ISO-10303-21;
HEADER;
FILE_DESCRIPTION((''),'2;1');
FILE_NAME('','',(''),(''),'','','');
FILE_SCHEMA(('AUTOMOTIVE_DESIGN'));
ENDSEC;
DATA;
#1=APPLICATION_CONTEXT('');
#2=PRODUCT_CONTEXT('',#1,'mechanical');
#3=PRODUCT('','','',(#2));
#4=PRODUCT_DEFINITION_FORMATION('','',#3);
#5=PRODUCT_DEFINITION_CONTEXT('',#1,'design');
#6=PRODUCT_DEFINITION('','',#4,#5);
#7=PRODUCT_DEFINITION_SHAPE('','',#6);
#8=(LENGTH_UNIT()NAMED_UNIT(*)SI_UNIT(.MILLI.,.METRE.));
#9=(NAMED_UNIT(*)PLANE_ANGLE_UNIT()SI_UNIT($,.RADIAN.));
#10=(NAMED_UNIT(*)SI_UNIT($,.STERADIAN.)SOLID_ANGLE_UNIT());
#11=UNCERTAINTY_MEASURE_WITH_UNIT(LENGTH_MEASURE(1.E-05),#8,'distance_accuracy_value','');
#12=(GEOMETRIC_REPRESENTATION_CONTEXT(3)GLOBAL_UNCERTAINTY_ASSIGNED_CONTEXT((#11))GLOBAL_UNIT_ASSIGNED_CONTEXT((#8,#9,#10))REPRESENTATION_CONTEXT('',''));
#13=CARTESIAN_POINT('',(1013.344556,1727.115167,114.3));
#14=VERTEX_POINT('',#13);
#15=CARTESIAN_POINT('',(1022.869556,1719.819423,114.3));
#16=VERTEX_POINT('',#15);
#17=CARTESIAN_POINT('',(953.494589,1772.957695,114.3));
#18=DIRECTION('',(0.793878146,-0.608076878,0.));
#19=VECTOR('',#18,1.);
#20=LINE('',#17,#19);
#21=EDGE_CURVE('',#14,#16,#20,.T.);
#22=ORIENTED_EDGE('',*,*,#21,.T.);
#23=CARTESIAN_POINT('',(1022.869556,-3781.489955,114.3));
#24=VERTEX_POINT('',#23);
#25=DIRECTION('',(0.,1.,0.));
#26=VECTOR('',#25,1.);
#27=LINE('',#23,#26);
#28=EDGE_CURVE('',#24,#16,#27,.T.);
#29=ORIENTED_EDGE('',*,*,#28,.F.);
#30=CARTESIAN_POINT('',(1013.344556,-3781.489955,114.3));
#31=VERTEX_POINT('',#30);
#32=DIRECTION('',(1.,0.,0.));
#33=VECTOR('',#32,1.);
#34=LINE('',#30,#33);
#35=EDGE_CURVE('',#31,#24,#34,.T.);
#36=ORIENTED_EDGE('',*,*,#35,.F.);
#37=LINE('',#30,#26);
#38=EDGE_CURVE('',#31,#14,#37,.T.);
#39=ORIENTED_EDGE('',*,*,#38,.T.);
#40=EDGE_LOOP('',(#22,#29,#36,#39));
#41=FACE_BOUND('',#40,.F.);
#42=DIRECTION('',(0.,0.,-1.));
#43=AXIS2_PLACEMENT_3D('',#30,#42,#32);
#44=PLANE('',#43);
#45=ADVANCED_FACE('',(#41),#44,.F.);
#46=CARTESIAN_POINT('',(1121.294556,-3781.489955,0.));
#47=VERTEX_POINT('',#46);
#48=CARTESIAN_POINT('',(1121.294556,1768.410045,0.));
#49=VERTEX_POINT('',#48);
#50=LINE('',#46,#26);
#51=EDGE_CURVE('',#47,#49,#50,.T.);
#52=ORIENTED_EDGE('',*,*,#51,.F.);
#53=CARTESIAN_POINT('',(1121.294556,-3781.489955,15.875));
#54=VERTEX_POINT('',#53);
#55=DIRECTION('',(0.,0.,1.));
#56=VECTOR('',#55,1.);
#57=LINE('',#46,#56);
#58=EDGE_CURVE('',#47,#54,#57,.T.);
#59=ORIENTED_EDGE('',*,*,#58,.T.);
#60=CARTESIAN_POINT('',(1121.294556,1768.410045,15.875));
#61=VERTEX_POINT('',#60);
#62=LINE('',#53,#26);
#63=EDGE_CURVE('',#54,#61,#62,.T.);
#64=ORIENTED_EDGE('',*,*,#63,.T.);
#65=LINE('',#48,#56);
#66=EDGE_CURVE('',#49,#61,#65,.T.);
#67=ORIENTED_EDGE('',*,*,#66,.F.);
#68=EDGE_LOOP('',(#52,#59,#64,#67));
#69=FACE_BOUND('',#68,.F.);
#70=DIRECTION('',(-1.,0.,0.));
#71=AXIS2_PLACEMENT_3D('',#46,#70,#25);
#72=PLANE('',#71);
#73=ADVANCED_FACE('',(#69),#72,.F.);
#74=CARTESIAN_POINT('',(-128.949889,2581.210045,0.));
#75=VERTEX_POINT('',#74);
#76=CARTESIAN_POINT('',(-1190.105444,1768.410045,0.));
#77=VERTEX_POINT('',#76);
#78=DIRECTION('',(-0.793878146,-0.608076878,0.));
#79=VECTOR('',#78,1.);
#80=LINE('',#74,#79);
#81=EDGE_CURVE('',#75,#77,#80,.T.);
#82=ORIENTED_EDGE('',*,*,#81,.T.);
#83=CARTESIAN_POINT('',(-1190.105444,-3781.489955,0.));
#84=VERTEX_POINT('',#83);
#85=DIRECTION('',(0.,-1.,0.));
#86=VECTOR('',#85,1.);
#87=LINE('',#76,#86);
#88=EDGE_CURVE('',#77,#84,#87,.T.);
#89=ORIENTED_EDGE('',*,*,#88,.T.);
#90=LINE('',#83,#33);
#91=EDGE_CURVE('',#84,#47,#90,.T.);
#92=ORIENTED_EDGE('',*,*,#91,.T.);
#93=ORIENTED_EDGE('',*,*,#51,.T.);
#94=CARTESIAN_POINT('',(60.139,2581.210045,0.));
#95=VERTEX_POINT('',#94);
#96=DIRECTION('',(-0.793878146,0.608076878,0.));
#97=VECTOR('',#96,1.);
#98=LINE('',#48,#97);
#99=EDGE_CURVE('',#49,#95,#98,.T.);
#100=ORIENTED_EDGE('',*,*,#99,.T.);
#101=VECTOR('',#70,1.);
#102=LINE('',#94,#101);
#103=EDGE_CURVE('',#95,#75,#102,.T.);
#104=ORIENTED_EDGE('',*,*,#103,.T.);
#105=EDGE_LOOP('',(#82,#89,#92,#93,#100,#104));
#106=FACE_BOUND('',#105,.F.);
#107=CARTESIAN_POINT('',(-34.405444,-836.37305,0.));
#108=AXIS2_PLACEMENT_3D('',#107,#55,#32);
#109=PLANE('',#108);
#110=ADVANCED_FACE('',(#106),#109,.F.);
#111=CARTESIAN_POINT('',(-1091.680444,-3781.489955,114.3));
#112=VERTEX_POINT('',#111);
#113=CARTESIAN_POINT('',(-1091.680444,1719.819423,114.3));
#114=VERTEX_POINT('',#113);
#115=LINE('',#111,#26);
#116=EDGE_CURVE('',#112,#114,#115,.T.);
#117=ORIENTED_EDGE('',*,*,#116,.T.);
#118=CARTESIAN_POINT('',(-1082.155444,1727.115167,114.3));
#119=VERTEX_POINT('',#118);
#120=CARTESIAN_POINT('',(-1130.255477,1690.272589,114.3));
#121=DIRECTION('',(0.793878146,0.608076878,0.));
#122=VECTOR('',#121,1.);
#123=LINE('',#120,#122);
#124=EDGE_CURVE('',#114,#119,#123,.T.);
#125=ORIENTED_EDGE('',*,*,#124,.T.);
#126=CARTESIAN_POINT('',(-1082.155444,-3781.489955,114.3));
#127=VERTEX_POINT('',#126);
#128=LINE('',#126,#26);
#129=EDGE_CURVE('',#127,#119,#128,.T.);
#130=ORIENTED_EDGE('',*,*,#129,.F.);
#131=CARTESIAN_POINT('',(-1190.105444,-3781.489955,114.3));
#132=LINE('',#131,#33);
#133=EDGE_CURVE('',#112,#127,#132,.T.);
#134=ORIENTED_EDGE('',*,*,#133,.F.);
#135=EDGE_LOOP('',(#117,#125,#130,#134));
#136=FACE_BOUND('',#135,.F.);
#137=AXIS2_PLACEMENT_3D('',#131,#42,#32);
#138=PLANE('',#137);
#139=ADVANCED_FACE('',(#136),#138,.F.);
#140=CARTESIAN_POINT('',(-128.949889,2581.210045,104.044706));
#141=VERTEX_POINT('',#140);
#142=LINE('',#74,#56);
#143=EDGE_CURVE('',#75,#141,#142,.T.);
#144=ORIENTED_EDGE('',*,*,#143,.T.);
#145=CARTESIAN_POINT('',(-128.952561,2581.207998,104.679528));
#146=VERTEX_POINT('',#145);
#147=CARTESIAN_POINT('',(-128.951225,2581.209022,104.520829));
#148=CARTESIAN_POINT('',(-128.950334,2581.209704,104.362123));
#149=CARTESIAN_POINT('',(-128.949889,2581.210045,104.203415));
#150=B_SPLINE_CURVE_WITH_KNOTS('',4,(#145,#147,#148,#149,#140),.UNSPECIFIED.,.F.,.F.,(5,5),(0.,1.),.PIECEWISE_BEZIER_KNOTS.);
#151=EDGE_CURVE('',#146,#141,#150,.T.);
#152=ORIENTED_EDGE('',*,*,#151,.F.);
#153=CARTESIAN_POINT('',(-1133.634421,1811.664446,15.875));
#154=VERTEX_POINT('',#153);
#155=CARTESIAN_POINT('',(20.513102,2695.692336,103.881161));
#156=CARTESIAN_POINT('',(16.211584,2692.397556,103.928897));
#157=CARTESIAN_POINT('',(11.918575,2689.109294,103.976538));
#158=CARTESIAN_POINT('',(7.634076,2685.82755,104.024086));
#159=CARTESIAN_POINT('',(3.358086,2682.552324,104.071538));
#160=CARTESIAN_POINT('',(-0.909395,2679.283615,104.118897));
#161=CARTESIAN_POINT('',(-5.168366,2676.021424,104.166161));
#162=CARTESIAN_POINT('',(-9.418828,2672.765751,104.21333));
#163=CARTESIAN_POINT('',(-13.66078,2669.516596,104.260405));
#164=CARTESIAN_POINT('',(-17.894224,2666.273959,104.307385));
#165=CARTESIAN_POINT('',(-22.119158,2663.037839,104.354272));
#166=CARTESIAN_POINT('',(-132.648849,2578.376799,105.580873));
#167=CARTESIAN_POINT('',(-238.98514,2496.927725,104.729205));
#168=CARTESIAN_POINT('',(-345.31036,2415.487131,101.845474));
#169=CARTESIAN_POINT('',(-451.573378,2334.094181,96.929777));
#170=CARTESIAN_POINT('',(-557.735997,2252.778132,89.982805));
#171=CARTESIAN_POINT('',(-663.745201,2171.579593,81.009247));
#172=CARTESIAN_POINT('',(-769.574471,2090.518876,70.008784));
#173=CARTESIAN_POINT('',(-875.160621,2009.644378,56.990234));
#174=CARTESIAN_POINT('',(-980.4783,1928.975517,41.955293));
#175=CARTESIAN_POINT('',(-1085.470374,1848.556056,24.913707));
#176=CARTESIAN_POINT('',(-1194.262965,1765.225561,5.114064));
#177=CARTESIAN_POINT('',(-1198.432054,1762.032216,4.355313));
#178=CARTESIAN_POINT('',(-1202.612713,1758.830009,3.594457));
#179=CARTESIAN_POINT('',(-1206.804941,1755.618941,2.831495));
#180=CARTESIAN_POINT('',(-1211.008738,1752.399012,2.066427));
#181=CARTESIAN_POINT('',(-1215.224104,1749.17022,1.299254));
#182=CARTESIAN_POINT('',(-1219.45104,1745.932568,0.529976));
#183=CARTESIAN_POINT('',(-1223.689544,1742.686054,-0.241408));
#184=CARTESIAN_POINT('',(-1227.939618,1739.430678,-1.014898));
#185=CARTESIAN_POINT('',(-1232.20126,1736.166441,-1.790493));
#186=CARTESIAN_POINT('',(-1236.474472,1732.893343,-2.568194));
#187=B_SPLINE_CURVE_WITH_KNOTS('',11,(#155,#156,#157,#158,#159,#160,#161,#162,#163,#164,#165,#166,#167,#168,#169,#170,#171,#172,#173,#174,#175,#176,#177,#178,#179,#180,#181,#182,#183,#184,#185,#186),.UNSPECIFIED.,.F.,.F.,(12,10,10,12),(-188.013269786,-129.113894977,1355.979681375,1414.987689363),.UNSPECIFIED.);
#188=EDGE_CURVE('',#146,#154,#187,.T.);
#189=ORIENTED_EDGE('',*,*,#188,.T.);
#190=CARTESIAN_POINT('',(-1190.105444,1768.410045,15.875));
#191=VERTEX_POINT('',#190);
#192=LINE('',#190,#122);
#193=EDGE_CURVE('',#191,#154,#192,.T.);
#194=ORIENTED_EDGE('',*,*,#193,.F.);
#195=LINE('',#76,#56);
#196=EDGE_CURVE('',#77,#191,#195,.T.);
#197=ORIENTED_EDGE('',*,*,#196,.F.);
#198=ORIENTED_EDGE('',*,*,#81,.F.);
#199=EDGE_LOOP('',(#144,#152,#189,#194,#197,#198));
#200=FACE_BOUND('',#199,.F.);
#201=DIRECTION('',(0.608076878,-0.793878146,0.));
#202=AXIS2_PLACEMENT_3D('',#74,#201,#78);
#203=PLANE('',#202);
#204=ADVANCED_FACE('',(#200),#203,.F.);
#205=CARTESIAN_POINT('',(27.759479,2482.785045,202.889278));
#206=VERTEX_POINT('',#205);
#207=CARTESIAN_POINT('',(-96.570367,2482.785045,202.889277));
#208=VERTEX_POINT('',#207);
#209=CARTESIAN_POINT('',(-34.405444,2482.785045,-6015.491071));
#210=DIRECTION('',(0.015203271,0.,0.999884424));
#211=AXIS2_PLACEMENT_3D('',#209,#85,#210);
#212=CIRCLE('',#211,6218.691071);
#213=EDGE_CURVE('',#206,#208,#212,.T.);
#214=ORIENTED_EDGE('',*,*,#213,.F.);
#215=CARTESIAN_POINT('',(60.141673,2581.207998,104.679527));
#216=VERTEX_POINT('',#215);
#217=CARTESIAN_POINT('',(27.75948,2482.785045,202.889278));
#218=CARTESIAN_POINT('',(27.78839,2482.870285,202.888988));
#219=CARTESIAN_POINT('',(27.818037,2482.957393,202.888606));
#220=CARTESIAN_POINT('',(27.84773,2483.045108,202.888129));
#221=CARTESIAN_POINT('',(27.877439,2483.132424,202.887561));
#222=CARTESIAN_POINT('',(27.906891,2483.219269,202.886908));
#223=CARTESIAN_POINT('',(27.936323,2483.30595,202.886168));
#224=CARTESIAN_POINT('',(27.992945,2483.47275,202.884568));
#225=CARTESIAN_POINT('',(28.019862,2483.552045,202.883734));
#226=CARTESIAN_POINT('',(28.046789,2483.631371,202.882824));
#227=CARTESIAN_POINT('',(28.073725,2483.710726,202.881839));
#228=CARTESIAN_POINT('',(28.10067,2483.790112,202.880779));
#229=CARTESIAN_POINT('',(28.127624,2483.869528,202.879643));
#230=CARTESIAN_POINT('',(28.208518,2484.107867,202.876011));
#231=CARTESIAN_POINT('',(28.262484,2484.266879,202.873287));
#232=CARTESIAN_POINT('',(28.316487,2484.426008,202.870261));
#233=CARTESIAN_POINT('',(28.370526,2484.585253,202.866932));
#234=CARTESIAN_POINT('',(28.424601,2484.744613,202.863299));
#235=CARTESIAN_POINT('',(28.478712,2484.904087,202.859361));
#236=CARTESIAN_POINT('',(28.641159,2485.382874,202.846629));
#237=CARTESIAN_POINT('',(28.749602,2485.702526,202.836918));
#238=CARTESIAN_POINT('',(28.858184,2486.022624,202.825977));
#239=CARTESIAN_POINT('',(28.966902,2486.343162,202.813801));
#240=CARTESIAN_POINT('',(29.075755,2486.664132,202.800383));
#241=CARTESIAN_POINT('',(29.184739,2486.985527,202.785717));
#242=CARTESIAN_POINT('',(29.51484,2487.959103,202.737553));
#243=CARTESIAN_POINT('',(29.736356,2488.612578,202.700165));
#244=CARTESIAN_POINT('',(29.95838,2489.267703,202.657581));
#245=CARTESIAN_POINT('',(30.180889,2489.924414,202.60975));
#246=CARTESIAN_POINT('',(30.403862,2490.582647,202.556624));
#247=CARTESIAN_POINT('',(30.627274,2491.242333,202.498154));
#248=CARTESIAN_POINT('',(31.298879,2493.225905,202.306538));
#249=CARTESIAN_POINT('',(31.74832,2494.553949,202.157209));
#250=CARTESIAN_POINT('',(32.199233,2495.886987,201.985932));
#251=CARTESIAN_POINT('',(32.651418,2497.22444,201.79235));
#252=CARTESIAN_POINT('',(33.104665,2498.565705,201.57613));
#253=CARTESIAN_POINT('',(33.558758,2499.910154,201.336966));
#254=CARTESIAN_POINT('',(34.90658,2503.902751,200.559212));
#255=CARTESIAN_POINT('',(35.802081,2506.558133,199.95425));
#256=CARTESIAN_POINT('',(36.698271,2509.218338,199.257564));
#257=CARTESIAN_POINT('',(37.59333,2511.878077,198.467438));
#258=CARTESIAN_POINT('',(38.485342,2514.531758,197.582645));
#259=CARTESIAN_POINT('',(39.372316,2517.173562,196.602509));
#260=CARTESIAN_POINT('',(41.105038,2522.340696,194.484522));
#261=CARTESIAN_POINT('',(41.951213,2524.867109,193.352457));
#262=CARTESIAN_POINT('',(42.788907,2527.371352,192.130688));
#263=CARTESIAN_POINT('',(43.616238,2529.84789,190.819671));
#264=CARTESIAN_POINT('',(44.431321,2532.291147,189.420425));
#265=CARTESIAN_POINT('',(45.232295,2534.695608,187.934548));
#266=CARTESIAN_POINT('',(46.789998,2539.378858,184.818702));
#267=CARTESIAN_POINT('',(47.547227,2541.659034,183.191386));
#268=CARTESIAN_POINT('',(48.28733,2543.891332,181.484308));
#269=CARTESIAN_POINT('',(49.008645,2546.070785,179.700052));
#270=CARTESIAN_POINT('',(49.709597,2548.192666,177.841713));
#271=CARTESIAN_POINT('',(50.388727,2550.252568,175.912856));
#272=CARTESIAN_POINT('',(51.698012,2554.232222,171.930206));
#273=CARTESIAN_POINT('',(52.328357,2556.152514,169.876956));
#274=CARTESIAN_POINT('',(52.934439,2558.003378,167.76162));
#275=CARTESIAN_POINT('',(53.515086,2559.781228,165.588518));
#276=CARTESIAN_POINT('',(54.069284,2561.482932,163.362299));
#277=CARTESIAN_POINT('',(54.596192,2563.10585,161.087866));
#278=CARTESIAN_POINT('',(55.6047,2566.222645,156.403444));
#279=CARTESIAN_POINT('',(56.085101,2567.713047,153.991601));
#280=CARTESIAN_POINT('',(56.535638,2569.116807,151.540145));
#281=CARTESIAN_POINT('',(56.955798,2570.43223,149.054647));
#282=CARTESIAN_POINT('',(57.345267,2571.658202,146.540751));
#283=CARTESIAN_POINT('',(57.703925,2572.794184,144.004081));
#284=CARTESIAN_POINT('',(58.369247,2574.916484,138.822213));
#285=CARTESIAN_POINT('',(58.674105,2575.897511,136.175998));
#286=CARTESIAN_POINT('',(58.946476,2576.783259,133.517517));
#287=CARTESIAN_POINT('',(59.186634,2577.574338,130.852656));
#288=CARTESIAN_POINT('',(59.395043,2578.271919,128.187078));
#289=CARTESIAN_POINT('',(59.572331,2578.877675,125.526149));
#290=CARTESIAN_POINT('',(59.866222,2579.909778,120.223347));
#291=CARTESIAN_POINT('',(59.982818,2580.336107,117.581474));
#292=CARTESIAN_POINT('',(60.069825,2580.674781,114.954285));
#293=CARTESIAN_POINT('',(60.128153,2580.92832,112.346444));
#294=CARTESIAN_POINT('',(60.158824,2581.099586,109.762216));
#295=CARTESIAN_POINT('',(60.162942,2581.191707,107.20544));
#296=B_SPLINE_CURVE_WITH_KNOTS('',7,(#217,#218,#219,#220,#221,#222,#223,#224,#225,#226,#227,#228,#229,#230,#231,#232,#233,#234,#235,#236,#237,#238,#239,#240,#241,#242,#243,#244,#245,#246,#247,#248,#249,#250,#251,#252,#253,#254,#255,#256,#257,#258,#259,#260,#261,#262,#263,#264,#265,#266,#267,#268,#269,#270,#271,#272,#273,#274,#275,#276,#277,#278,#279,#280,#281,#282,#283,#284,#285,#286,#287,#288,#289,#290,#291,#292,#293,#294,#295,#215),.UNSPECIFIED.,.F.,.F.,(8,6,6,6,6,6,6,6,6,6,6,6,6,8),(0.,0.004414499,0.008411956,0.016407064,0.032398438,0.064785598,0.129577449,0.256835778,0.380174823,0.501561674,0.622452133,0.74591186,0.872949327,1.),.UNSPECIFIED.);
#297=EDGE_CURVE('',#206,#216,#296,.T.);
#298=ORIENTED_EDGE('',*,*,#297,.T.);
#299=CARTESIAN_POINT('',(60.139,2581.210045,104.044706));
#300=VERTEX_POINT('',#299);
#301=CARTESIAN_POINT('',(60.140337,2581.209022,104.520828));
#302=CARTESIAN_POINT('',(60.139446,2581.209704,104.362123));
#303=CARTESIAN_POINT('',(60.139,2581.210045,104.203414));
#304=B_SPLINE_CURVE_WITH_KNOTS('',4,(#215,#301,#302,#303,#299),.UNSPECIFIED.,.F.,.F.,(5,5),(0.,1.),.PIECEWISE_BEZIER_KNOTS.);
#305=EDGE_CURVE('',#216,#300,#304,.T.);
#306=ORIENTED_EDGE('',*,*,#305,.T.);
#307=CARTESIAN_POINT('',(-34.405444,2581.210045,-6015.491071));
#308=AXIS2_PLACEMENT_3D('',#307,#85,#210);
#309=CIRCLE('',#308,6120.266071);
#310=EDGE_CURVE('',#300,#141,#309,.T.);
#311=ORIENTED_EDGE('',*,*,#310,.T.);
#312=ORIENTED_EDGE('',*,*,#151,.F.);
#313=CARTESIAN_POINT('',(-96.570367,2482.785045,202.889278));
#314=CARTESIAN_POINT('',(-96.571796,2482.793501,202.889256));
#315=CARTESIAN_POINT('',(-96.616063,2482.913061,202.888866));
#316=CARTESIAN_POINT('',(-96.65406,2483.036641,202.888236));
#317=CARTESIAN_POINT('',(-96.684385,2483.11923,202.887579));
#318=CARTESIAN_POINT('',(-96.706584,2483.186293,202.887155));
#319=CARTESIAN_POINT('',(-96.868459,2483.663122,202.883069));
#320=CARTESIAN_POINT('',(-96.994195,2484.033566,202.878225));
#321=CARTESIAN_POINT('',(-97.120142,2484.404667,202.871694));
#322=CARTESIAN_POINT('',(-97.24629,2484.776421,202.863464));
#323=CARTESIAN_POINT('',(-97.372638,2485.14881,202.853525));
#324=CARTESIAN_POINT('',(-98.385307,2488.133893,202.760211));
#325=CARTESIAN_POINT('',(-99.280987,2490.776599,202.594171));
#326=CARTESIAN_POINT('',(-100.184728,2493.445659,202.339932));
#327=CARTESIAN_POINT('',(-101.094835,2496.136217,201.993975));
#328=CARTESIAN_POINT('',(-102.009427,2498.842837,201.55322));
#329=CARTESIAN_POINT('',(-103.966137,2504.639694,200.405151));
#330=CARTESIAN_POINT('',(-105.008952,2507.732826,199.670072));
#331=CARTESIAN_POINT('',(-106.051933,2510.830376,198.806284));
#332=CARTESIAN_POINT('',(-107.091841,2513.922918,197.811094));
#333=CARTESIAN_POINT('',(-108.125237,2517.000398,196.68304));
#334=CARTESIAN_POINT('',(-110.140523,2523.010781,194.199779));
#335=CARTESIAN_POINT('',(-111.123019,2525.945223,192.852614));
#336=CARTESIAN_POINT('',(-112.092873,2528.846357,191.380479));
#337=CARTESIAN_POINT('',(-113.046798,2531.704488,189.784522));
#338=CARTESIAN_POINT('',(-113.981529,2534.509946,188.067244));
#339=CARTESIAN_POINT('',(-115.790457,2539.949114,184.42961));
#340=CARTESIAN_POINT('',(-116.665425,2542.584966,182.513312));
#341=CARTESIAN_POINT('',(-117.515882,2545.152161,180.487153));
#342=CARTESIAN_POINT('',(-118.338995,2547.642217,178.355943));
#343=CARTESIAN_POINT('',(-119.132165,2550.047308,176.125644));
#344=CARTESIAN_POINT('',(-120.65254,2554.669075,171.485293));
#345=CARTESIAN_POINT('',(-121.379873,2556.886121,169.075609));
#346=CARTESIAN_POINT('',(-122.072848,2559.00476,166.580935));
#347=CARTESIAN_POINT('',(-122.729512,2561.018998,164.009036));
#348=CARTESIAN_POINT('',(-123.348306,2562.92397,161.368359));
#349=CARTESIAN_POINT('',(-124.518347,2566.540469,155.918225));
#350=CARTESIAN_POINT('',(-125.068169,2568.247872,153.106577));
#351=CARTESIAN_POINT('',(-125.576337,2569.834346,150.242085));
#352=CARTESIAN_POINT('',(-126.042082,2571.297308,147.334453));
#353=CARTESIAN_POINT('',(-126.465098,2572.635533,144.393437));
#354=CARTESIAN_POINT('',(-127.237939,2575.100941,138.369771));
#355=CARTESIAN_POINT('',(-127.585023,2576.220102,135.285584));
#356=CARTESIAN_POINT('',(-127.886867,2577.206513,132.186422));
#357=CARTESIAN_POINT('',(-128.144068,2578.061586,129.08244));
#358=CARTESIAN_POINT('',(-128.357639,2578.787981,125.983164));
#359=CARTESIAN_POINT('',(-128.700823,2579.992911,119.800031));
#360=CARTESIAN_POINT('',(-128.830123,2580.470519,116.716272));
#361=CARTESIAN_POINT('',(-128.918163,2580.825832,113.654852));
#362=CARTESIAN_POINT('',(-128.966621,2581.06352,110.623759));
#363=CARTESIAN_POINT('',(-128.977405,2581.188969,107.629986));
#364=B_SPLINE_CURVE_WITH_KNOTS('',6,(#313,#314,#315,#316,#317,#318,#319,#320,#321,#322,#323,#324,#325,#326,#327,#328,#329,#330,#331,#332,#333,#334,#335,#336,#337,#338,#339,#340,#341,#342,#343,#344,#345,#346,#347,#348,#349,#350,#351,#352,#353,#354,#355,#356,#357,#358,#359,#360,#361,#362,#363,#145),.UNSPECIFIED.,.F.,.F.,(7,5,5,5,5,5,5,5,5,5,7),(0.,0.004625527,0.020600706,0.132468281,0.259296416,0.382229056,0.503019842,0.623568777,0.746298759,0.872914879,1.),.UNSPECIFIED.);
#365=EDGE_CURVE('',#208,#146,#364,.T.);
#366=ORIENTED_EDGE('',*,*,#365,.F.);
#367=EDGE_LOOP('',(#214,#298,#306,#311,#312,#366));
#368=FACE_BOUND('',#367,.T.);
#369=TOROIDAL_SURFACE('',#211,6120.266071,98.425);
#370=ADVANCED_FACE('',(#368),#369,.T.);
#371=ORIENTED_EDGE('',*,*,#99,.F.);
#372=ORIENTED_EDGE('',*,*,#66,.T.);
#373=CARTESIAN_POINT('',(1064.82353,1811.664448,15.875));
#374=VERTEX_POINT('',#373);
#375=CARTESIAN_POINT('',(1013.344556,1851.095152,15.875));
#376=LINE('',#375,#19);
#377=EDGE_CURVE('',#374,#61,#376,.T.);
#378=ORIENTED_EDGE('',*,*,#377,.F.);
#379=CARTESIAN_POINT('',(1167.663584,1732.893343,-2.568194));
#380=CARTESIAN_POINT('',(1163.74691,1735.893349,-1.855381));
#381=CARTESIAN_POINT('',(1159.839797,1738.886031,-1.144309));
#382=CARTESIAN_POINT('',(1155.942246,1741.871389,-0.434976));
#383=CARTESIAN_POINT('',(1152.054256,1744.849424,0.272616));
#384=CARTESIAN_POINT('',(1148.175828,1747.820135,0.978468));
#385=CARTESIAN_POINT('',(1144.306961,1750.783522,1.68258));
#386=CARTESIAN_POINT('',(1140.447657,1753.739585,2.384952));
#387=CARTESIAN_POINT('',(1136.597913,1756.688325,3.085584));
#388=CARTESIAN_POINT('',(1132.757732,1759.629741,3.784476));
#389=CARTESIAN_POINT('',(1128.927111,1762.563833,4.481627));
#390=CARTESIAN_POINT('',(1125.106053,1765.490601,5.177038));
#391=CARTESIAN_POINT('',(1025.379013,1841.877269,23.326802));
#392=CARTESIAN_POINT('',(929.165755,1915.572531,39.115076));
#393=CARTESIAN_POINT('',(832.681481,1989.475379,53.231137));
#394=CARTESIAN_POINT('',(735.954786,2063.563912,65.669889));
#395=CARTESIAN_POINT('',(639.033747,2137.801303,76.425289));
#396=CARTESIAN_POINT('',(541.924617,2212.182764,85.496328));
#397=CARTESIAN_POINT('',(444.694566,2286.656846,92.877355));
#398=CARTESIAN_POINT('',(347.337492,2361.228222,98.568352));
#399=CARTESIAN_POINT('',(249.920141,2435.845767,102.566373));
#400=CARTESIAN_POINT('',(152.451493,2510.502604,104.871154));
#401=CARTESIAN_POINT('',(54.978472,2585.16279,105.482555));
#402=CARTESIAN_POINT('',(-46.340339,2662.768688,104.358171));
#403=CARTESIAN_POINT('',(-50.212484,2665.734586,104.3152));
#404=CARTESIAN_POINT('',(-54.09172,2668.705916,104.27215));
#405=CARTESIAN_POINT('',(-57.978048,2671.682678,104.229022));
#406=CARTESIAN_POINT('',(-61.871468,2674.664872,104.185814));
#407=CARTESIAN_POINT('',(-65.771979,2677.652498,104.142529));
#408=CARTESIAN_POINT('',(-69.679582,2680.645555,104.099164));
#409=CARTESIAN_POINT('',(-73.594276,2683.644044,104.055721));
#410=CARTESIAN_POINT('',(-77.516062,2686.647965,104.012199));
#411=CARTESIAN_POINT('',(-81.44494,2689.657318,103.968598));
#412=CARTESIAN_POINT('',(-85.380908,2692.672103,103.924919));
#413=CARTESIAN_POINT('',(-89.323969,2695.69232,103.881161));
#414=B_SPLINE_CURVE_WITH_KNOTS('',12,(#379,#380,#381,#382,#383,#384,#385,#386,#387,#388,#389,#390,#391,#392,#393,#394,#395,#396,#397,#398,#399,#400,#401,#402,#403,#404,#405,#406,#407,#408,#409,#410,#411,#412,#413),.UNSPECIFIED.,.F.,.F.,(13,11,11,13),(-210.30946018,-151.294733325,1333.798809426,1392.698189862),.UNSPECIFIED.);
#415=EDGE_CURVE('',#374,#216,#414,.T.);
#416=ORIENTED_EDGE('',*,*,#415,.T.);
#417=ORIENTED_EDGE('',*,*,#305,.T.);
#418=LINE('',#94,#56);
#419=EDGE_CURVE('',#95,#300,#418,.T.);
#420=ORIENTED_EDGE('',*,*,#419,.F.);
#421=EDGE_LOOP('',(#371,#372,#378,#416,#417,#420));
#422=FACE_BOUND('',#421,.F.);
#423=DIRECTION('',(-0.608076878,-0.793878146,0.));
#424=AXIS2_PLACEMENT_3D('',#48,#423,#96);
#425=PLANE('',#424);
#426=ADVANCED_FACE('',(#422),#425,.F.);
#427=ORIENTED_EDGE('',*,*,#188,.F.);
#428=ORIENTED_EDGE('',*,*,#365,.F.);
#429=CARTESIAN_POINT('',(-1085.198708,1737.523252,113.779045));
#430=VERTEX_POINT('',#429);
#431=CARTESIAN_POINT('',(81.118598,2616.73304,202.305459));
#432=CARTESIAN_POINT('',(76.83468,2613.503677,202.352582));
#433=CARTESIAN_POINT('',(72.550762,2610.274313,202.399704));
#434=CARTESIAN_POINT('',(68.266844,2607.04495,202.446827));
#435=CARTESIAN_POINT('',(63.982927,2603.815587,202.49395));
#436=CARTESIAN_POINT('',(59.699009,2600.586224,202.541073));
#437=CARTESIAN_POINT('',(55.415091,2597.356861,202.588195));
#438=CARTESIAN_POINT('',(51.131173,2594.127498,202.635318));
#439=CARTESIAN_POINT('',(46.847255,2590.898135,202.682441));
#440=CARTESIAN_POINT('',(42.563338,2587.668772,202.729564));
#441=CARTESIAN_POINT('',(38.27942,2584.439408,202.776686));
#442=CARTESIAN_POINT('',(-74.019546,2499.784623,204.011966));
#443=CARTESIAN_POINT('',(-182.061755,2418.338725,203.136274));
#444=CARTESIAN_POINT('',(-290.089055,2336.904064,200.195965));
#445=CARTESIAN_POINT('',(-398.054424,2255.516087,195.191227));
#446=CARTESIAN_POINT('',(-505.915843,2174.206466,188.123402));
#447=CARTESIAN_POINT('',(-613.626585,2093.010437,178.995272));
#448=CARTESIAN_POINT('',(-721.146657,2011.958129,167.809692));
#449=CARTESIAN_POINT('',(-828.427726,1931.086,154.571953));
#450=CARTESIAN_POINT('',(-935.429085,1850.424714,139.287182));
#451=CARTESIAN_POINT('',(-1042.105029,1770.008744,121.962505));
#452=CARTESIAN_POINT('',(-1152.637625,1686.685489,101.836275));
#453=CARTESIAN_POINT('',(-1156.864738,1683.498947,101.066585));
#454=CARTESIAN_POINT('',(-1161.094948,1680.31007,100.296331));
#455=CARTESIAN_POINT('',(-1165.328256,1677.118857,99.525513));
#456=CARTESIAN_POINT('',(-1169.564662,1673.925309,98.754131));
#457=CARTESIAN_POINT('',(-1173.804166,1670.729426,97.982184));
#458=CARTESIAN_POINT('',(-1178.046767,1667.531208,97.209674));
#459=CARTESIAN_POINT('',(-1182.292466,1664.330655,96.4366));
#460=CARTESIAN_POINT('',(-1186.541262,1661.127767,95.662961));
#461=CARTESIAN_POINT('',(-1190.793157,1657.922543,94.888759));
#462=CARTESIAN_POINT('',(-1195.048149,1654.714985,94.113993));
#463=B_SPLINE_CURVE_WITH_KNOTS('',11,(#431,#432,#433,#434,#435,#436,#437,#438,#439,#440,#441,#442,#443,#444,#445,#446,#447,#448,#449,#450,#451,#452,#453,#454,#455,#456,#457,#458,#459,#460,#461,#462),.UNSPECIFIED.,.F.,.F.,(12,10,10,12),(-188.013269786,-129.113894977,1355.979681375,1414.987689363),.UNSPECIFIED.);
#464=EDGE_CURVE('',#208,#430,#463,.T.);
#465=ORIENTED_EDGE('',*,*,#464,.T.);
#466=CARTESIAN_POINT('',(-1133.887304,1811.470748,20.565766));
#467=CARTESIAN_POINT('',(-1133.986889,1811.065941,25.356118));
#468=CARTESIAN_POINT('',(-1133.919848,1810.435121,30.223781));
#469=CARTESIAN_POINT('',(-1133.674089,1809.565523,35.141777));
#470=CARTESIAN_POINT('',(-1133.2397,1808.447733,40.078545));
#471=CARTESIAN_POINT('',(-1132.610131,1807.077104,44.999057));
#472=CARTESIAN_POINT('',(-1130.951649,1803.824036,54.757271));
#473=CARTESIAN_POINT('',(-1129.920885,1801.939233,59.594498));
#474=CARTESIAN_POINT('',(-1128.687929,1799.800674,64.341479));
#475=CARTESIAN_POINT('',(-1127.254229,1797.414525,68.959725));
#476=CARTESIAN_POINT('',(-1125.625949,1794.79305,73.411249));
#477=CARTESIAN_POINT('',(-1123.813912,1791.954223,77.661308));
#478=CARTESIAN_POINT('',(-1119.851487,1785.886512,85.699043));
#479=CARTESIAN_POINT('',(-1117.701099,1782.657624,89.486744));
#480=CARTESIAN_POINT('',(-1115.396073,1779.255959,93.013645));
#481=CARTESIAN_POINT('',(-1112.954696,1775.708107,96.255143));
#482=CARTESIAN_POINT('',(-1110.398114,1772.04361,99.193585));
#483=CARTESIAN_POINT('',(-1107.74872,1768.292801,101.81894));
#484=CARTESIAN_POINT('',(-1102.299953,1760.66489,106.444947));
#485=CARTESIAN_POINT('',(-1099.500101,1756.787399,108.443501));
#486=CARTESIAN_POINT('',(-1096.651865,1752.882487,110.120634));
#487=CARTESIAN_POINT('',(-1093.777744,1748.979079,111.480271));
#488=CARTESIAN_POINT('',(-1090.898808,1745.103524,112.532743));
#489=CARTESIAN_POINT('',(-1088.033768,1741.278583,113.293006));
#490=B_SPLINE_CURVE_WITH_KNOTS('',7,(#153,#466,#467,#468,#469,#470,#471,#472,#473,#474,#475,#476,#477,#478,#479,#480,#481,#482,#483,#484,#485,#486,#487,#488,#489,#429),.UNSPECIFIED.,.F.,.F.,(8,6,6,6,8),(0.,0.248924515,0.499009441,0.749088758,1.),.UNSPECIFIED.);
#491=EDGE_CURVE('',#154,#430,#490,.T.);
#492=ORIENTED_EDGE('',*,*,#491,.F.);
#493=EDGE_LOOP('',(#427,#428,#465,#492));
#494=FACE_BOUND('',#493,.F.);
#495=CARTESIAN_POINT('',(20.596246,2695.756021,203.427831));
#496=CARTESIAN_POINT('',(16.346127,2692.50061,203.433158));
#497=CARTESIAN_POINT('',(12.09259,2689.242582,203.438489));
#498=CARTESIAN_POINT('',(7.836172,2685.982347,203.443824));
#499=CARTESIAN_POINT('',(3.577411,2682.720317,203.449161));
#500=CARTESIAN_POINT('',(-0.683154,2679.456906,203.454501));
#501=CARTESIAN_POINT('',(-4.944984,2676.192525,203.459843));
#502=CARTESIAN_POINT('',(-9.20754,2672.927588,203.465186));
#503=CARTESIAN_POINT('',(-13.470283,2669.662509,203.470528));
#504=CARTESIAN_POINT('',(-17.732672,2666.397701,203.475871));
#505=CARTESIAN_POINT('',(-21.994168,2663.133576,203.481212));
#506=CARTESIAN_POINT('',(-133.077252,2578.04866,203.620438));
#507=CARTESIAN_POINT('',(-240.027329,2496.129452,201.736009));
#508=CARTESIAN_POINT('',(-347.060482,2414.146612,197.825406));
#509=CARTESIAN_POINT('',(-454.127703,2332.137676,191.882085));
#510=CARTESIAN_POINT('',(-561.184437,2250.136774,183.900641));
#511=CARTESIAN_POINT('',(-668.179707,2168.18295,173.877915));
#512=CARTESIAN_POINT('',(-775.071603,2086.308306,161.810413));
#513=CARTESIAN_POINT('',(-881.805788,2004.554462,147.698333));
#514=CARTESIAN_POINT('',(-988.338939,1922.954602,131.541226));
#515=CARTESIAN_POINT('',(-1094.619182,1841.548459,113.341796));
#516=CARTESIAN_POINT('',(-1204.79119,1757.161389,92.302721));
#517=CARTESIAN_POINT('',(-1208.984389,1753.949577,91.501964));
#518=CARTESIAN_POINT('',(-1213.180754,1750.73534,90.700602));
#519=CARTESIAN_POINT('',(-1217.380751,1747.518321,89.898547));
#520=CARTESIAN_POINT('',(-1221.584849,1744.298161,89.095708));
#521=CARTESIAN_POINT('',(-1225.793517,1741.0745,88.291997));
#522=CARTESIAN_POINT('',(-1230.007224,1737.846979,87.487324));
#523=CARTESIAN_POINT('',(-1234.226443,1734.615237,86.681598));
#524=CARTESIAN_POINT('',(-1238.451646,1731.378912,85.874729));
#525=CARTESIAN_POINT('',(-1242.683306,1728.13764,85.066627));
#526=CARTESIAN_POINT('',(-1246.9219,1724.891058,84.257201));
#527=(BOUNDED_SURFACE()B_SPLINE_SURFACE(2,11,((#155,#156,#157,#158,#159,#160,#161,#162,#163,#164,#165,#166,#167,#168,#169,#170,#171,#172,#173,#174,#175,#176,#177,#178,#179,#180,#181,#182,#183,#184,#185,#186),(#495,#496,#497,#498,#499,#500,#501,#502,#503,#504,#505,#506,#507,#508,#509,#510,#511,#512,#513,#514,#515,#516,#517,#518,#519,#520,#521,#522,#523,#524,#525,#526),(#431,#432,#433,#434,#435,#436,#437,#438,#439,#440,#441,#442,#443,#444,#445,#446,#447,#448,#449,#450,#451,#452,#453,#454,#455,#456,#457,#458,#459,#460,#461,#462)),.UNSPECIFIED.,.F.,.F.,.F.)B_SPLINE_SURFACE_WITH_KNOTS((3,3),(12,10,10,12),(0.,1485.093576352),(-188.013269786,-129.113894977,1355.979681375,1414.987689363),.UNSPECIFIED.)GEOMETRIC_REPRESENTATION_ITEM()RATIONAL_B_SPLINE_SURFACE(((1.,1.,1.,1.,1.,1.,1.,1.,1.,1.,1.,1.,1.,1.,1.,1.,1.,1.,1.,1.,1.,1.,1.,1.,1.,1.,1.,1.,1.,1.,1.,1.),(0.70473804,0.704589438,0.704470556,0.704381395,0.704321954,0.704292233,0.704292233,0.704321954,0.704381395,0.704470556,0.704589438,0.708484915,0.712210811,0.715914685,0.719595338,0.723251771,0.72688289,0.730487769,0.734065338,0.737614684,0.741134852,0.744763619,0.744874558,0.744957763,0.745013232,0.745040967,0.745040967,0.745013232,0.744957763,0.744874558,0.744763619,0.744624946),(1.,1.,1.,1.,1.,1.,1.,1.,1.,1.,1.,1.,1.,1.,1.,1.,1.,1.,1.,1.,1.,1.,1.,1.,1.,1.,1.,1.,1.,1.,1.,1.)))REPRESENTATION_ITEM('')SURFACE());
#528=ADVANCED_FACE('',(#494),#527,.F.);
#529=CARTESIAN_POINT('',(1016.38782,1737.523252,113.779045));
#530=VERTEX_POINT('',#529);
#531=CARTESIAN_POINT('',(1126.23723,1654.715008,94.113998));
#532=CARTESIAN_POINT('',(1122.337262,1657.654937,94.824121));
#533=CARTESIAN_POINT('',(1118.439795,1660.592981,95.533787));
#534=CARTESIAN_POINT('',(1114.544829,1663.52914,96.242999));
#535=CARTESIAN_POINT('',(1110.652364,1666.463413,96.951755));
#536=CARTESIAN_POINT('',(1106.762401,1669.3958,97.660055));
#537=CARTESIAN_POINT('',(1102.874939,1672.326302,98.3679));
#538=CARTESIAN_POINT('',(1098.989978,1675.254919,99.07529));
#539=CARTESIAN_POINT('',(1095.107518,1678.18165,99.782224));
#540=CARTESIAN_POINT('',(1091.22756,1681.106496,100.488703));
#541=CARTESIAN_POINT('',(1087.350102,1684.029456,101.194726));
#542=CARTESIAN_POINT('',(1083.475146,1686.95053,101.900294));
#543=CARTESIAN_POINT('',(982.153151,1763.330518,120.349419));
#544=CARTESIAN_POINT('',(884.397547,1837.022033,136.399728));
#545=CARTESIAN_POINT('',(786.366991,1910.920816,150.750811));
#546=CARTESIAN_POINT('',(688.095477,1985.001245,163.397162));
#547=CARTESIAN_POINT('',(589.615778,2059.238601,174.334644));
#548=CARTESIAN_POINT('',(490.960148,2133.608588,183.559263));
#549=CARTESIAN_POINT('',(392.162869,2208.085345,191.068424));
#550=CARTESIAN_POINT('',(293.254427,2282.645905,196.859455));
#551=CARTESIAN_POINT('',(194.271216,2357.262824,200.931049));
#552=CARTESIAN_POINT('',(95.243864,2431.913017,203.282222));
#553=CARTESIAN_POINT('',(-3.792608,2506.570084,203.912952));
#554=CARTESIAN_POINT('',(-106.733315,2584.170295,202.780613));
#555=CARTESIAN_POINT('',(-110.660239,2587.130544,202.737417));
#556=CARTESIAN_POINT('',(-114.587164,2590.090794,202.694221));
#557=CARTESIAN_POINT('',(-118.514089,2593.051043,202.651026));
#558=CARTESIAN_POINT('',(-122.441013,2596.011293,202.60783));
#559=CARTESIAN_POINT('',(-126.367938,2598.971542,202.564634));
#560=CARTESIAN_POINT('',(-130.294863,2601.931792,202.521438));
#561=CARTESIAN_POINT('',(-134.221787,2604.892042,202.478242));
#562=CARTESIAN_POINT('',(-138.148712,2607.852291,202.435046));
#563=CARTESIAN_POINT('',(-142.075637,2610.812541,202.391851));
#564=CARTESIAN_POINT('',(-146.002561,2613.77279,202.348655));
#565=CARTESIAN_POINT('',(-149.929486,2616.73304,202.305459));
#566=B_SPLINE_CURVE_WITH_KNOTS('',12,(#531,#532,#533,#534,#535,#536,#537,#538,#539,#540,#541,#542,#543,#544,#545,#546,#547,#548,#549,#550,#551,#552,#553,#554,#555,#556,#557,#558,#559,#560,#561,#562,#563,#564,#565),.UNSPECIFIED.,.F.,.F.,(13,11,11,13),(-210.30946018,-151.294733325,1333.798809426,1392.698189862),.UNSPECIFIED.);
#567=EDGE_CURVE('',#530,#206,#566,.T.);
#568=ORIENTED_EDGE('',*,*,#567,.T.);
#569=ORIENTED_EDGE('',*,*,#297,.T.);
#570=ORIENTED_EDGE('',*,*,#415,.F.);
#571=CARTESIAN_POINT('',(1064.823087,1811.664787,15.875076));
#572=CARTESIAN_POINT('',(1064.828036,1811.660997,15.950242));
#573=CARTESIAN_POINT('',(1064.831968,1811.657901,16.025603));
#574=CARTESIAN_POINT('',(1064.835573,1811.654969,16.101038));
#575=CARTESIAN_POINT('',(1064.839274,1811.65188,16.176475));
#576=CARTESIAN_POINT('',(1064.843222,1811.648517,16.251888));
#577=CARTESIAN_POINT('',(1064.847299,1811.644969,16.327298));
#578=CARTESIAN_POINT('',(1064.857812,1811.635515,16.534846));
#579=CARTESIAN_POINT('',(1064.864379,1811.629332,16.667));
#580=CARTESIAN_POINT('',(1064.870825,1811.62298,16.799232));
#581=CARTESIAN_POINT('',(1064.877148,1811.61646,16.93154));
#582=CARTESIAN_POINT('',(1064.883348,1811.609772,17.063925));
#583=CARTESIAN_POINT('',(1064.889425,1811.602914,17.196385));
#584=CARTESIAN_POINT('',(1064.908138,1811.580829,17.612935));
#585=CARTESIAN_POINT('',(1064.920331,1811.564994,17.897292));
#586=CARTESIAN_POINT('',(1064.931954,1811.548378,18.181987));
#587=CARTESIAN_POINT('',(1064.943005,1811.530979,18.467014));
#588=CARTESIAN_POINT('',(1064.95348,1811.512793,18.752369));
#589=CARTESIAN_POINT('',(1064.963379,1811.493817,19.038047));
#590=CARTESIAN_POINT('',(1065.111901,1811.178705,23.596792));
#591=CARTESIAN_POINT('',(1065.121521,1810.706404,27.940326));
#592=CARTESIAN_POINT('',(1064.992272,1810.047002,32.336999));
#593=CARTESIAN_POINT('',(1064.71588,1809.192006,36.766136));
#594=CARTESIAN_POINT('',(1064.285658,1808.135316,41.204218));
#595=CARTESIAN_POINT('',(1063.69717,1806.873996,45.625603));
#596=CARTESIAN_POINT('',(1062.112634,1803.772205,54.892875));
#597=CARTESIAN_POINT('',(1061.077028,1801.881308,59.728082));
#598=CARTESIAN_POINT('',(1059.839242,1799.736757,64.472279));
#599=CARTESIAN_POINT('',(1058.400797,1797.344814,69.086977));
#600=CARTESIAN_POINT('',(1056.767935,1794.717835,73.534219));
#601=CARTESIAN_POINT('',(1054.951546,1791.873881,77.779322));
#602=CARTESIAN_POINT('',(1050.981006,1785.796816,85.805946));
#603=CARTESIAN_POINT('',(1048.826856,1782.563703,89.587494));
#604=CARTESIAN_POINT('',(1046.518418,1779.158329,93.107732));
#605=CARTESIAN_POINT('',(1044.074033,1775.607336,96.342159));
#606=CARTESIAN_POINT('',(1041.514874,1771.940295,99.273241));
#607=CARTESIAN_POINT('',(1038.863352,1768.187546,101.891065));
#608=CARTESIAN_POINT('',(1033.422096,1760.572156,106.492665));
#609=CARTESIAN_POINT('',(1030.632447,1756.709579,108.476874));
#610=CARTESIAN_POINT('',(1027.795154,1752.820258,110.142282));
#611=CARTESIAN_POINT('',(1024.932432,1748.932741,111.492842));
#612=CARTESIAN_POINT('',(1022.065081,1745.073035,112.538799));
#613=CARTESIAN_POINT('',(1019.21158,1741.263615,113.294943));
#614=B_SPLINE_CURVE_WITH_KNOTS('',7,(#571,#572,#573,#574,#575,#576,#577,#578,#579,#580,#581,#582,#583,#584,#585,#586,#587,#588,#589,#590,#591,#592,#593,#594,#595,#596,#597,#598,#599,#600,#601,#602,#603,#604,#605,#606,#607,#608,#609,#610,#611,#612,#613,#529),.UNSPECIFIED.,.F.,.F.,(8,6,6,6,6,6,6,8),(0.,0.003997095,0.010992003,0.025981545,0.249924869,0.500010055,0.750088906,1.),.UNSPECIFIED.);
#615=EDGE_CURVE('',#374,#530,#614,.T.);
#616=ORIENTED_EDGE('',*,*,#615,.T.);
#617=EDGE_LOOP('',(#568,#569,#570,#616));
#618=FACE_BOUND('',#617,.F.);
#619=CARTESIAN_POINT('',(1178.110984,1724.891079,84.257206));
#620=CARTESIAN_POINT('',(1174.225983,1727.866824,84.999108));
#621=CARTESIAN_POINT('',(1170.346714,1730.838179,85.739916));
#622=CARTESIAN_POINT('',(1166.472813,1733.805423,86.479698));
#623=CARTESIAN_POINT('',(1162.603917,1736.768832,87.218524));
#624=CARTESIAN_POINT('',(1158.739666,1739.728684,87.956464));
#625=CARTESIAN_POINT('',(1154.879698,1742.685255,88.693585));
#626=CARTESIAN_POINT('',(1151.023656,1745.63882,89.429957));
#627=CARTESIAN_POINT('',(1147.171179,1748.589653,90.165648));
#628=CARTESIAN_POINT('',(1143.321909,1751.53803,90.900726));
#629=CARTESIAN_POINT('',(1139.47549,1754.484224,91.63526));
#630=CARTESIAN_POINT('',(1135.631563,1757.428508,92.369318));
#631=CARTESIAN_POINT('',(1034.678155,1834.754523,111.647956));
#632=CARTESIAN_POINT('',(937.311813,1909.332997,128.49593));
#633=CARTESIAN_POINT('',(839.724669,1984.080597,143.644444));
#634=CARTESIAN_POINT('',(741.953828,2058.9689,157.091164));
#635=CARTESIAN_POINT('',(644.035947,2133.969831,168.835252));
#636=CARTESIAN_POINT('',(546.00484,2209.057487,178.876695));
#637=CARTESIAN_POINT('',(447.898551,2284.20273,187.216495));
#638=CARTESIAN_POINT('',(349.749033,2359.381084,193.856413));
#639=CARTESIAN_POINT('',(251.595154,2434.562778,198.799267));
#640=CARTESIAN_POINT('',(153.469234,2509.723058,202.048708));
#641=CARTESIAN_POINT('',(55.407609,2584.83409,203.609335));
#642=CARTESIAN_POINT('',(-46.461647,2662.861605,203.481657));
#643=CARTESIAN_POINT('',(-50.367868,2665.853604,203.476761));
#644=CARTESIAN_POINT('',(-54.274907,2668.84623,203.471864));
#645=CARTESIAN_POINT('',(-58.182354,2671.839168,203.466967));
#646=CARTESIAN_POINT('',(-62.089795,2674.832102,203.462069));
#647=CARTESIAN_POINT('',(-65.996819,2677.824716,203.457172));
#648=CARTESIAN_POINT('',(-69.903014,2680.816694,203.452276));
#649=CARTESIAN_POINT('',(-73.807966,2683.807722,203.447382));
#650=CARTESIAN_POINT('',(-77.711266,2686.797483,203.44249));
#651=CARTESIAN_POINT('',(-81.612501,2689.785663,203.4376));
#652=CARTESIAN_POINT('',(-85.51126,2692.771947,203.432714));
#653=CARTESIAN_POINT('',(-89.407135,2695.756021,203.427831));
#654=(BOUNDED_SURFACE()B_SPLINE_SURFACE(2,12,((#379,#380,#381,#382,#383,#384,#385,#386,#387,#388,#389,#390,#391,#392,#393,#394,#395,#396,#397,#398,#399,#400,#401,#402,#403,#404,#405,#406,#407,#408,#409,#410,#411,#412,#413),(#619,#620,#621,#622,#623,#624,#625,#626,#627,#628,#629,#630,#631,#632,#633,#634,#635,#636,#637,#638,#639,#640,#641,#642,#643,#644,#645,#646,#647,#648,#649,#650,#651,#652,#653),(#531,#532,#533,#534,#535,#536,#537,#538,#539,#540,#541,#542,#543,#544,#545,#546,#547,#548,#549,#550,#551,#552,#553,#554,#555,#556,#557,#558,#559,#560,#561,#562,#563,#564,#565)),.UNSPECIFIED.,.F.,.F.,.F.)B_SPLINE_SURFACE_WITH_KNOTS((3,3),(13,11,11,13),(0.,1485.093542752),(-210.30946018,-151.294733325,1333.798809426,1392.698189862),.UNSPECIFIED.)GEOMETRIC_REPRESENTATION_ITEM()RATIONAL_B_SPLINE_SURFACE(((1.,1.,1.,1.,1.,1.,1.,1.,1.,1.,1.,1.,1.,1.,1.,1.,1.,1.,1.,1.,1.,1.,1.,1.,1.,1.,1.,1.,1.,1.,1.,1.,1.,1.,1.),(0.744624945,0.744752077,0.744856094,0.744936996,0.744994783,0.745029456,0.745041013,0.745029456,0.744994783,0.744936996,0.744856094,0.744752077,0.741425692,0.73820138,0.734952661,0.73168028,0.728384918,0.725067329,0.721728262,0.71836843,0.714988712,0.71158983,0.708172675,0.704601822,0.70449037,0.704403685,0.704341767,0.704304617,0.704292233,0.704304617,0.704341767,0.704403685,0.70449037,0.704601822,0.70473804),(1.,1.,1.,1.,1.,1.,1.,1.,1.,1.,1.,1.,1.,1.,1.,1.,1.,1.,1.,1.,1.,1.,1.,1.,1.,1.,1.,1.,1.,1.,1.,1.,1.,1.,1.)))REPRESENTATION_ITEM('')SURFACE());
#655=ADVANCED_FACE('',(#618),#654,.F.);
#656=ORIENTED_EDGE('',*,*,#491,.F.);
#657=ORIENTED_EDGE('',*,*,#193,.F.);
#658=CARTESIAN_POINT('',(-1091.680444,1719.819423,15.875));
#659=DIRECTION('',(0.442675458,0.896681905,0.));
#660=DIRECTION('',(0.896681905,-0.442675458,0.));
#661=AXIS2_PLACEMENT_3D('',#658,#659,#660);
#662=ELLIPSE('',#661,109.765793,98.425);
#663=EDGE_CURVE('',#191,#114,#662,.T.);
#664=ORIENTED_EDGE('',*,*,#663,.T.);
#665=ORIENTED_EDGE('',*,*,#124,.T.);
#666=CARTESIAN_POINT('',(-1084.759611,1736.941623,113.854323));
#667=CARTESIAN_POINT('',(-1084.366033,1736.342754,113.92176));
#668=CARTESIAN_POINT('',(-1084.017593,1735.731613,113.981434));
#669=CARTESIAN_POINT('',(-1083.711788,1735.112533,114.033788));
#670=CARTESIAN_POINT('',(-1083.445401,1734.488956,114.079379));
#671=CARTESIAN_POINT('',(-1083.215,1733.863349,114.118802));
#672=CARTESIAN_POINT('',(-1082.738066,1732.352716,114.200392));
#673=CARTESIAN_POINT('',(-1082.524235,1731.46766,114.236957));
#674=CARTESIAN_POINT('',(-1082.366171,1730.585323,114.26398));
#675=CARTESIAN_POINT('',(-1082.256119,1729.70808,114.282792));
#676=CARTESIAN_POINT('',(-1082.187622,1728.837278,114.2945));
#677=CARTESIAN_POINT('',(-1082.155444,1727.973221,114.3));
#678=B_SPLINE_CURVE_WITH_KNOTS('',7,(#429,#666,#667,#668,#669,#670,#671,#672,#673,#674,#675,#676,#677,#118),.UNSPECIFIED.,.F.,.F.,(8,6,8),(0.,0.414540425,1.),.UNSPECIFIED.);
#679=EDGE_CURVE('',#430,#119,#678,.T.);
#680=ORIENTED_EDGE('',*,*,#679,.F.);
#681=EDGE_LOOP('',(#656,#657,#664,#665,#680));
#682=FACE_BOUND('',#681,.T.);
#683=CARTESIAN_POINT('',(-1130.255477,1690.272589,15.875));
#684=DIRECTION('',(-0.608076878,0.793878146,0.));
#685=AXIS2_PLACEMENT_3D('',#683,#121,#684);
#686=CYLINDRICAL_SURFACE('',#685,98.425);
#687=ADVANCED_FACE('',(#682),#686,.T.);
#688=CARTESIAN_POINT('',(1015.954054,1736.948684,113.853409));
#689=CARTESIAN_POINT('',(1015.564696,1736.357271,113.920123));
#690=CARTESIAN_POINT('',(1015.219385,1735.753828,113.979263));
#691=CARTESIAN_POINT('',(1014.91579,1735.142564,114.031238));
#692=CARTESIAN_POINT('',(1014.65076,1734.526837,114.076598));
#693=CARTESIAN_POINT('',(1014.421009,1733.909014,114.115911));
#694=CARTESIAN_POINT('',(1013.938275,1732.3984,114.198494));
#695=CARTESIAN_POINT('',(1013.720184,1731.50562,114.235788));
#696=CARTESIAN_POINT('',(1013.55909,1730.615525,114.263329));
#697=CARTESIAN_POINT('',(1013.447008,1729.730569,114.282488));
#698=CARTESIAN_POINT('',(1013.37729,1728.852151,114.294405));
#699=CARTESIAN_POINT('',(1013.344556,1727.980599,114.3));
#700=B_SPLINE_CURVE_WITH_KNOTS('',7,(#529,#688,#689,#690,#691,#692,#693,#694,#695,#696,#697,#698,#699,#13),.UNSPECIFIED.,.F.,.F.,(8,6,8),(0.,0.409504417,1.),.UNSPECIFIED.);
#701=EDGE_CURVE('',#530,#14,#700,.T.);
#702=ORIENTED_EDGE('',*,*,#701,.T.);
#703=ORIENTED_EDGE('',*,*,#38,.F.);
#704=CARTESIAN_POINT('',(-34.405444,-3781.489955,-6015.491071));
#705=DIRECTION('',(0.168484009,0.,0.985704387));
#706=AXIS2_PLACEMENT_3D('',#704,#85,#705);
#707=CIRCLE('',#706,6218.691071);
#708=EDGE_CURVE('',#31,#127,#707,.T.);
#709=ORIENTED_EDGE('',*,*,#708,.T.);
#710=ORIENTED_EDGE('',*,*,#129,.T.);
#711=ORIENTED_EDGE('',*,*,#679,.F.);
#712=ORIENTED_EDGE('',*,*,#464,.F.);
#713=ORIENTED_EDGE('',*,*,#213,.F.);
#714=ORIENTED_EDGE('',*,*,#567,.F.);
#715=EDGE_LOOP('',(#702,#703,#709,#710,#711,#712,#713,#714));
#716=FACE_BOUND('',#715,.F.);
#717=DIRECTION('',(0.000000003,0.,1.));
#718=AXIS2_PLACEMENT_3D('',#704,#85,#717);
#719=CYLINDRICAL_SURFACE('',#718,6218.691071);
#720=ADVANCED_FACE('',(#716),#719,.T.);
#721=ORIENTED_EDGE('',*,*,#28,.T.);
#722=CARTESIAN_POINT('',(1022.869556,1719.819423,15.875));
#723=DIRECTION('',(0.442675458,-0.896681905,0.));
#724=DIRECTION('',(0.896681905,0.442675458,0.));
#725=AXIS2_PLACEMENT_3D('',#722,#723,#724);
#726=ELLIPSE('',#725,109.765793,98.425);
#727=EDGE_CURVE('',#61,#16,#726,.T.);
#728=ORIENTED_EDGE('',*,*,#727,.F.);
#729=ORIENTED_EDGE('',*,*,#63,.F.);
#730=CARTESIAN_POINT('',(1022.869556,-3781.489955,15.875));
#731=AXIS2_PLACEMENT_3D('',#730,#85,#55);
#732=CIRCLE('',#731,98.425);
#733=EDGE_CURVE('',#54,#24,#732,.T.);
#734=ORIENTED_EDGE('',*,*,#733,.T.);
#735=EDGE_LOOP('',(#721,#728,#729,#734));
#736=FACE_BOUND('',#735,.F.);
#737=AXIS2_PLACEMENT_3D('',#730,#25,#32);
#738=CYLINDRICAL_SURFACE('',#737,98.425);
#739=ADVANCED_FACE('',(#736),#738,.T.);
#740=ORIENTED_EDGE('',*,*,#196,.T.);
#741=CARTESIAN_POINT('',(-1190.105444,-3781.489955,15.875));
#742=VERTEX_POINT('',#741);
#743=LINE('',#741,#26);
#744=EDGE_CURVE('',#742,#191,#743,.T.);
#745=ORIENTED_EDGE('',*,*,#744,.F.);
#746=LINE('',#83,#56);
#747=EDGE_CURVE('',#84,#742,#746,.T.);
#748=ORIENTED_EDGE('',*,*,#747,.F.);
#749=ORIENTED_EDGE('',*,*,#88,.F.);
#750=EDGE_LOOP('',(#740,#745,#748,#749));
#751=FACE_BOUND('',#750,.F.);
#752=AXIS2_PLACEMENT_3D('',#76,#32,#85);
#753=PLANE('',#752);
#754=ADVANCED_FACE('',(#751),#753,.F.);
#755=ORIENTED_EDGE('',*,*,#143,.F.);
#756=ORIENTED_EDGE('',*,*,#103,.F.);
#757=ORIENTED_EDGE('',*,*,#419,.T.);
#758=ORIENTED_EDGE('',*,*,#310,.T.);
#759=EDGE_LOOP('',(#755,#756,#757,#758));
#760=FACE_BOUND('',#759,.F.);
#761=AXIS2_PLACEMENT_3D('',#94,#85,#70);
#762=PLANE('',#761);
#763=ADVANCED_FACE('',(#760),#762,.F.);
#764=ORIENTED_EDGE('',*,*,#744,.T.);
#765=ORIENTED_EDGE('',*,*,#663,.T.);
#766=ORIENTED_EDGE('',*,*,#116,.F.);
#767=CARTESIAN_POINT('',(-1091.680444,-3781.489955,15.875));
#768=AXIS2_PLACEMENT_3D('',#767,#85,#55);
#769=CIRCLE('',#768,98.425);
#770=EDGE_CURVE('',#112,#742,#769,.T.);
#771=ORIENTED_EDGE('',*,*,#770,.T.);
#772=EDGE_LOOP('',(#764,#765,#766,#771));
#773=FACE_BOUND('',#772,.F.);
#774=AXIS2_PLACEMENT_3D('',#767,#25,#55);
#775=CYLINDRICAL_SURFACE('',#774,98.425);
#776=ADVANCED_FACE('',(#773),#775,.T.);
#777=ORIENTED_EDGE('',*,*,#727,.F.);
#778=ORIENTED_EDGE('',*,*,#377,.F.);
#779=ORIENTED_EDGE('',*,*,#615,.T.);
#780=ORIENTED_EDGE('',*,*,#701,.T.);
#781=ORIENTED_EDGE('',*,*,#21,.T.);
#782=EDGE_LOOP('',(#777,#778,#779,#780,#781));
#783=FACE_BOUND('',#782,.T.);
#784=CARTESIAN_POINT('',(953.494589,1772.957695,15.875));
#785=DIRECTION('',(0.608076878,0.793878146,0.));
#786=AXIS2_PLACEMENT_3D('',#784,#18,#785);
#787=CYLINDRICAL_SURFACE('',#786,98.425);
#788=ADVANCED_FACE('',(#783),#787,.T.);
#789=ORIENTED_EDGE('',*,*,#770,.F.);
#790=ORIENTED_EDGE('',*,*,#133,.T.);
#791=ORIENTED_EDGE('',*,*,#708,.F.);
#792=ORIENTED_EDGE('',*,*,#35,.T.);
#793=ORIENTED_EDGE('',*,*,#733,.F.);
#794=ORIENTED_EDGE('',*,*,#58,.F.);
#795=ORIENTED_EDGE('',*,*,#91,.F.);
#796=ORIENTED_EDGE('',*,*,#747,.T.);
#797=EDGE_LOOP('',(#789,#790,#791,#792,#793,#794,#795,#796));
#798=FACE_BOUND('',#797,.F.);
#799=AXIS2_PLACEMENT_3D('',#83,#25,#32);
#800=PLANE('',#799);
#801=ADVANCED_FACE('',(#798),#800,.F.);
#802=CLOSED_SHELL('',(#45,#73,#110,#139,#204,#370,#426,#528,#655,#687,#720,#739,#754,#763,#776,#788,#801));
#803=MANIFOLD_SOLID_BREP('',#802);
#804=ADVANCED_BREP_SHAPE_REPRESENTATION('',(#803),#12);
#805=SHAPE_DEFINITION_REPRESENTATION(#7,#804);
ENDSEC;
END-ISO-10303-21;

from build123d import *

# Parameters (mm, degrees)
F1_DEPTH = 203.2
F3_DEPTH = 6451.6
F4_R     = 98.425


with BuildPart() as f1:
    # F0 (on Top) → F1 (new body)
    with BuildSketch(Plane.XY):
        Polygon((-1190.1054440712, -3781.489954734), (1121.2945559288, -3781.489954734), (1121.2945559288, 1768.410045266), (60.1390003732, 2581.210045266), (-128.9498885157, 2581.210045266), (-1190.1054440712, 1768.410045266), align=None)
    extrude(amount=F1_DEPTH)

    # F2 (on face) → F3 (cut)
    with BuildSketch(Plane.XZ.offset(3781.489954734)):
        with BuildLine():
            ThreePointArc((-34.4054247497, 203.2), (491.3519412759, 180.935141609), (1013.3445559288, 114.3000000001))
            Line((1013.3445559287, 114.3), (1121.2945559288, 114.3))
            Line((1121.2945559288, 114.3), (1121.2945559288, 203.2))
            Line((1121.2945559288, 203.2), (-34.4054247497, 203.2))
        make_face()
        with BuildLine():
            ThreePointArc((-1082.1554440713, 114.3000000001), (-560.162810166, 180.9351432425), (-34.4054247497, 203.2))
            Line((-34.4054247497, 203.2), (-1190.1054440712, 203.2))
            Line((-1190.1054440712, 203.2), (-1190.1054440712, 114.3000000001))
            Line((-1190.1054440712, 114.3000000001), (-1082.1554440712, 114.3000000001))
        make_face()
    extrude(amount=-F3_DEPTH, mode=Mode.SUBTRACT)

    # F4
    f4_edges = [f1.edges().sort_by_distance(p)[0] for p in [
        (1121.294556, -1006.539955, 114.3),
        (537.816704, 2215.329251, 176.817097),
        (-606.627592, 2215.329251, 176.817097),
        (1067.319556, 1809.752598, 114.3),
        (-1136.130444, 1809.752598, 114.3),
        (-1190.105444, -1006.539955, 114.3),
        (-34.405444, 2581.210045, 203.2),
    ]]
    fillet(f4_edges, radius=F4_R)


solid = f1.part
